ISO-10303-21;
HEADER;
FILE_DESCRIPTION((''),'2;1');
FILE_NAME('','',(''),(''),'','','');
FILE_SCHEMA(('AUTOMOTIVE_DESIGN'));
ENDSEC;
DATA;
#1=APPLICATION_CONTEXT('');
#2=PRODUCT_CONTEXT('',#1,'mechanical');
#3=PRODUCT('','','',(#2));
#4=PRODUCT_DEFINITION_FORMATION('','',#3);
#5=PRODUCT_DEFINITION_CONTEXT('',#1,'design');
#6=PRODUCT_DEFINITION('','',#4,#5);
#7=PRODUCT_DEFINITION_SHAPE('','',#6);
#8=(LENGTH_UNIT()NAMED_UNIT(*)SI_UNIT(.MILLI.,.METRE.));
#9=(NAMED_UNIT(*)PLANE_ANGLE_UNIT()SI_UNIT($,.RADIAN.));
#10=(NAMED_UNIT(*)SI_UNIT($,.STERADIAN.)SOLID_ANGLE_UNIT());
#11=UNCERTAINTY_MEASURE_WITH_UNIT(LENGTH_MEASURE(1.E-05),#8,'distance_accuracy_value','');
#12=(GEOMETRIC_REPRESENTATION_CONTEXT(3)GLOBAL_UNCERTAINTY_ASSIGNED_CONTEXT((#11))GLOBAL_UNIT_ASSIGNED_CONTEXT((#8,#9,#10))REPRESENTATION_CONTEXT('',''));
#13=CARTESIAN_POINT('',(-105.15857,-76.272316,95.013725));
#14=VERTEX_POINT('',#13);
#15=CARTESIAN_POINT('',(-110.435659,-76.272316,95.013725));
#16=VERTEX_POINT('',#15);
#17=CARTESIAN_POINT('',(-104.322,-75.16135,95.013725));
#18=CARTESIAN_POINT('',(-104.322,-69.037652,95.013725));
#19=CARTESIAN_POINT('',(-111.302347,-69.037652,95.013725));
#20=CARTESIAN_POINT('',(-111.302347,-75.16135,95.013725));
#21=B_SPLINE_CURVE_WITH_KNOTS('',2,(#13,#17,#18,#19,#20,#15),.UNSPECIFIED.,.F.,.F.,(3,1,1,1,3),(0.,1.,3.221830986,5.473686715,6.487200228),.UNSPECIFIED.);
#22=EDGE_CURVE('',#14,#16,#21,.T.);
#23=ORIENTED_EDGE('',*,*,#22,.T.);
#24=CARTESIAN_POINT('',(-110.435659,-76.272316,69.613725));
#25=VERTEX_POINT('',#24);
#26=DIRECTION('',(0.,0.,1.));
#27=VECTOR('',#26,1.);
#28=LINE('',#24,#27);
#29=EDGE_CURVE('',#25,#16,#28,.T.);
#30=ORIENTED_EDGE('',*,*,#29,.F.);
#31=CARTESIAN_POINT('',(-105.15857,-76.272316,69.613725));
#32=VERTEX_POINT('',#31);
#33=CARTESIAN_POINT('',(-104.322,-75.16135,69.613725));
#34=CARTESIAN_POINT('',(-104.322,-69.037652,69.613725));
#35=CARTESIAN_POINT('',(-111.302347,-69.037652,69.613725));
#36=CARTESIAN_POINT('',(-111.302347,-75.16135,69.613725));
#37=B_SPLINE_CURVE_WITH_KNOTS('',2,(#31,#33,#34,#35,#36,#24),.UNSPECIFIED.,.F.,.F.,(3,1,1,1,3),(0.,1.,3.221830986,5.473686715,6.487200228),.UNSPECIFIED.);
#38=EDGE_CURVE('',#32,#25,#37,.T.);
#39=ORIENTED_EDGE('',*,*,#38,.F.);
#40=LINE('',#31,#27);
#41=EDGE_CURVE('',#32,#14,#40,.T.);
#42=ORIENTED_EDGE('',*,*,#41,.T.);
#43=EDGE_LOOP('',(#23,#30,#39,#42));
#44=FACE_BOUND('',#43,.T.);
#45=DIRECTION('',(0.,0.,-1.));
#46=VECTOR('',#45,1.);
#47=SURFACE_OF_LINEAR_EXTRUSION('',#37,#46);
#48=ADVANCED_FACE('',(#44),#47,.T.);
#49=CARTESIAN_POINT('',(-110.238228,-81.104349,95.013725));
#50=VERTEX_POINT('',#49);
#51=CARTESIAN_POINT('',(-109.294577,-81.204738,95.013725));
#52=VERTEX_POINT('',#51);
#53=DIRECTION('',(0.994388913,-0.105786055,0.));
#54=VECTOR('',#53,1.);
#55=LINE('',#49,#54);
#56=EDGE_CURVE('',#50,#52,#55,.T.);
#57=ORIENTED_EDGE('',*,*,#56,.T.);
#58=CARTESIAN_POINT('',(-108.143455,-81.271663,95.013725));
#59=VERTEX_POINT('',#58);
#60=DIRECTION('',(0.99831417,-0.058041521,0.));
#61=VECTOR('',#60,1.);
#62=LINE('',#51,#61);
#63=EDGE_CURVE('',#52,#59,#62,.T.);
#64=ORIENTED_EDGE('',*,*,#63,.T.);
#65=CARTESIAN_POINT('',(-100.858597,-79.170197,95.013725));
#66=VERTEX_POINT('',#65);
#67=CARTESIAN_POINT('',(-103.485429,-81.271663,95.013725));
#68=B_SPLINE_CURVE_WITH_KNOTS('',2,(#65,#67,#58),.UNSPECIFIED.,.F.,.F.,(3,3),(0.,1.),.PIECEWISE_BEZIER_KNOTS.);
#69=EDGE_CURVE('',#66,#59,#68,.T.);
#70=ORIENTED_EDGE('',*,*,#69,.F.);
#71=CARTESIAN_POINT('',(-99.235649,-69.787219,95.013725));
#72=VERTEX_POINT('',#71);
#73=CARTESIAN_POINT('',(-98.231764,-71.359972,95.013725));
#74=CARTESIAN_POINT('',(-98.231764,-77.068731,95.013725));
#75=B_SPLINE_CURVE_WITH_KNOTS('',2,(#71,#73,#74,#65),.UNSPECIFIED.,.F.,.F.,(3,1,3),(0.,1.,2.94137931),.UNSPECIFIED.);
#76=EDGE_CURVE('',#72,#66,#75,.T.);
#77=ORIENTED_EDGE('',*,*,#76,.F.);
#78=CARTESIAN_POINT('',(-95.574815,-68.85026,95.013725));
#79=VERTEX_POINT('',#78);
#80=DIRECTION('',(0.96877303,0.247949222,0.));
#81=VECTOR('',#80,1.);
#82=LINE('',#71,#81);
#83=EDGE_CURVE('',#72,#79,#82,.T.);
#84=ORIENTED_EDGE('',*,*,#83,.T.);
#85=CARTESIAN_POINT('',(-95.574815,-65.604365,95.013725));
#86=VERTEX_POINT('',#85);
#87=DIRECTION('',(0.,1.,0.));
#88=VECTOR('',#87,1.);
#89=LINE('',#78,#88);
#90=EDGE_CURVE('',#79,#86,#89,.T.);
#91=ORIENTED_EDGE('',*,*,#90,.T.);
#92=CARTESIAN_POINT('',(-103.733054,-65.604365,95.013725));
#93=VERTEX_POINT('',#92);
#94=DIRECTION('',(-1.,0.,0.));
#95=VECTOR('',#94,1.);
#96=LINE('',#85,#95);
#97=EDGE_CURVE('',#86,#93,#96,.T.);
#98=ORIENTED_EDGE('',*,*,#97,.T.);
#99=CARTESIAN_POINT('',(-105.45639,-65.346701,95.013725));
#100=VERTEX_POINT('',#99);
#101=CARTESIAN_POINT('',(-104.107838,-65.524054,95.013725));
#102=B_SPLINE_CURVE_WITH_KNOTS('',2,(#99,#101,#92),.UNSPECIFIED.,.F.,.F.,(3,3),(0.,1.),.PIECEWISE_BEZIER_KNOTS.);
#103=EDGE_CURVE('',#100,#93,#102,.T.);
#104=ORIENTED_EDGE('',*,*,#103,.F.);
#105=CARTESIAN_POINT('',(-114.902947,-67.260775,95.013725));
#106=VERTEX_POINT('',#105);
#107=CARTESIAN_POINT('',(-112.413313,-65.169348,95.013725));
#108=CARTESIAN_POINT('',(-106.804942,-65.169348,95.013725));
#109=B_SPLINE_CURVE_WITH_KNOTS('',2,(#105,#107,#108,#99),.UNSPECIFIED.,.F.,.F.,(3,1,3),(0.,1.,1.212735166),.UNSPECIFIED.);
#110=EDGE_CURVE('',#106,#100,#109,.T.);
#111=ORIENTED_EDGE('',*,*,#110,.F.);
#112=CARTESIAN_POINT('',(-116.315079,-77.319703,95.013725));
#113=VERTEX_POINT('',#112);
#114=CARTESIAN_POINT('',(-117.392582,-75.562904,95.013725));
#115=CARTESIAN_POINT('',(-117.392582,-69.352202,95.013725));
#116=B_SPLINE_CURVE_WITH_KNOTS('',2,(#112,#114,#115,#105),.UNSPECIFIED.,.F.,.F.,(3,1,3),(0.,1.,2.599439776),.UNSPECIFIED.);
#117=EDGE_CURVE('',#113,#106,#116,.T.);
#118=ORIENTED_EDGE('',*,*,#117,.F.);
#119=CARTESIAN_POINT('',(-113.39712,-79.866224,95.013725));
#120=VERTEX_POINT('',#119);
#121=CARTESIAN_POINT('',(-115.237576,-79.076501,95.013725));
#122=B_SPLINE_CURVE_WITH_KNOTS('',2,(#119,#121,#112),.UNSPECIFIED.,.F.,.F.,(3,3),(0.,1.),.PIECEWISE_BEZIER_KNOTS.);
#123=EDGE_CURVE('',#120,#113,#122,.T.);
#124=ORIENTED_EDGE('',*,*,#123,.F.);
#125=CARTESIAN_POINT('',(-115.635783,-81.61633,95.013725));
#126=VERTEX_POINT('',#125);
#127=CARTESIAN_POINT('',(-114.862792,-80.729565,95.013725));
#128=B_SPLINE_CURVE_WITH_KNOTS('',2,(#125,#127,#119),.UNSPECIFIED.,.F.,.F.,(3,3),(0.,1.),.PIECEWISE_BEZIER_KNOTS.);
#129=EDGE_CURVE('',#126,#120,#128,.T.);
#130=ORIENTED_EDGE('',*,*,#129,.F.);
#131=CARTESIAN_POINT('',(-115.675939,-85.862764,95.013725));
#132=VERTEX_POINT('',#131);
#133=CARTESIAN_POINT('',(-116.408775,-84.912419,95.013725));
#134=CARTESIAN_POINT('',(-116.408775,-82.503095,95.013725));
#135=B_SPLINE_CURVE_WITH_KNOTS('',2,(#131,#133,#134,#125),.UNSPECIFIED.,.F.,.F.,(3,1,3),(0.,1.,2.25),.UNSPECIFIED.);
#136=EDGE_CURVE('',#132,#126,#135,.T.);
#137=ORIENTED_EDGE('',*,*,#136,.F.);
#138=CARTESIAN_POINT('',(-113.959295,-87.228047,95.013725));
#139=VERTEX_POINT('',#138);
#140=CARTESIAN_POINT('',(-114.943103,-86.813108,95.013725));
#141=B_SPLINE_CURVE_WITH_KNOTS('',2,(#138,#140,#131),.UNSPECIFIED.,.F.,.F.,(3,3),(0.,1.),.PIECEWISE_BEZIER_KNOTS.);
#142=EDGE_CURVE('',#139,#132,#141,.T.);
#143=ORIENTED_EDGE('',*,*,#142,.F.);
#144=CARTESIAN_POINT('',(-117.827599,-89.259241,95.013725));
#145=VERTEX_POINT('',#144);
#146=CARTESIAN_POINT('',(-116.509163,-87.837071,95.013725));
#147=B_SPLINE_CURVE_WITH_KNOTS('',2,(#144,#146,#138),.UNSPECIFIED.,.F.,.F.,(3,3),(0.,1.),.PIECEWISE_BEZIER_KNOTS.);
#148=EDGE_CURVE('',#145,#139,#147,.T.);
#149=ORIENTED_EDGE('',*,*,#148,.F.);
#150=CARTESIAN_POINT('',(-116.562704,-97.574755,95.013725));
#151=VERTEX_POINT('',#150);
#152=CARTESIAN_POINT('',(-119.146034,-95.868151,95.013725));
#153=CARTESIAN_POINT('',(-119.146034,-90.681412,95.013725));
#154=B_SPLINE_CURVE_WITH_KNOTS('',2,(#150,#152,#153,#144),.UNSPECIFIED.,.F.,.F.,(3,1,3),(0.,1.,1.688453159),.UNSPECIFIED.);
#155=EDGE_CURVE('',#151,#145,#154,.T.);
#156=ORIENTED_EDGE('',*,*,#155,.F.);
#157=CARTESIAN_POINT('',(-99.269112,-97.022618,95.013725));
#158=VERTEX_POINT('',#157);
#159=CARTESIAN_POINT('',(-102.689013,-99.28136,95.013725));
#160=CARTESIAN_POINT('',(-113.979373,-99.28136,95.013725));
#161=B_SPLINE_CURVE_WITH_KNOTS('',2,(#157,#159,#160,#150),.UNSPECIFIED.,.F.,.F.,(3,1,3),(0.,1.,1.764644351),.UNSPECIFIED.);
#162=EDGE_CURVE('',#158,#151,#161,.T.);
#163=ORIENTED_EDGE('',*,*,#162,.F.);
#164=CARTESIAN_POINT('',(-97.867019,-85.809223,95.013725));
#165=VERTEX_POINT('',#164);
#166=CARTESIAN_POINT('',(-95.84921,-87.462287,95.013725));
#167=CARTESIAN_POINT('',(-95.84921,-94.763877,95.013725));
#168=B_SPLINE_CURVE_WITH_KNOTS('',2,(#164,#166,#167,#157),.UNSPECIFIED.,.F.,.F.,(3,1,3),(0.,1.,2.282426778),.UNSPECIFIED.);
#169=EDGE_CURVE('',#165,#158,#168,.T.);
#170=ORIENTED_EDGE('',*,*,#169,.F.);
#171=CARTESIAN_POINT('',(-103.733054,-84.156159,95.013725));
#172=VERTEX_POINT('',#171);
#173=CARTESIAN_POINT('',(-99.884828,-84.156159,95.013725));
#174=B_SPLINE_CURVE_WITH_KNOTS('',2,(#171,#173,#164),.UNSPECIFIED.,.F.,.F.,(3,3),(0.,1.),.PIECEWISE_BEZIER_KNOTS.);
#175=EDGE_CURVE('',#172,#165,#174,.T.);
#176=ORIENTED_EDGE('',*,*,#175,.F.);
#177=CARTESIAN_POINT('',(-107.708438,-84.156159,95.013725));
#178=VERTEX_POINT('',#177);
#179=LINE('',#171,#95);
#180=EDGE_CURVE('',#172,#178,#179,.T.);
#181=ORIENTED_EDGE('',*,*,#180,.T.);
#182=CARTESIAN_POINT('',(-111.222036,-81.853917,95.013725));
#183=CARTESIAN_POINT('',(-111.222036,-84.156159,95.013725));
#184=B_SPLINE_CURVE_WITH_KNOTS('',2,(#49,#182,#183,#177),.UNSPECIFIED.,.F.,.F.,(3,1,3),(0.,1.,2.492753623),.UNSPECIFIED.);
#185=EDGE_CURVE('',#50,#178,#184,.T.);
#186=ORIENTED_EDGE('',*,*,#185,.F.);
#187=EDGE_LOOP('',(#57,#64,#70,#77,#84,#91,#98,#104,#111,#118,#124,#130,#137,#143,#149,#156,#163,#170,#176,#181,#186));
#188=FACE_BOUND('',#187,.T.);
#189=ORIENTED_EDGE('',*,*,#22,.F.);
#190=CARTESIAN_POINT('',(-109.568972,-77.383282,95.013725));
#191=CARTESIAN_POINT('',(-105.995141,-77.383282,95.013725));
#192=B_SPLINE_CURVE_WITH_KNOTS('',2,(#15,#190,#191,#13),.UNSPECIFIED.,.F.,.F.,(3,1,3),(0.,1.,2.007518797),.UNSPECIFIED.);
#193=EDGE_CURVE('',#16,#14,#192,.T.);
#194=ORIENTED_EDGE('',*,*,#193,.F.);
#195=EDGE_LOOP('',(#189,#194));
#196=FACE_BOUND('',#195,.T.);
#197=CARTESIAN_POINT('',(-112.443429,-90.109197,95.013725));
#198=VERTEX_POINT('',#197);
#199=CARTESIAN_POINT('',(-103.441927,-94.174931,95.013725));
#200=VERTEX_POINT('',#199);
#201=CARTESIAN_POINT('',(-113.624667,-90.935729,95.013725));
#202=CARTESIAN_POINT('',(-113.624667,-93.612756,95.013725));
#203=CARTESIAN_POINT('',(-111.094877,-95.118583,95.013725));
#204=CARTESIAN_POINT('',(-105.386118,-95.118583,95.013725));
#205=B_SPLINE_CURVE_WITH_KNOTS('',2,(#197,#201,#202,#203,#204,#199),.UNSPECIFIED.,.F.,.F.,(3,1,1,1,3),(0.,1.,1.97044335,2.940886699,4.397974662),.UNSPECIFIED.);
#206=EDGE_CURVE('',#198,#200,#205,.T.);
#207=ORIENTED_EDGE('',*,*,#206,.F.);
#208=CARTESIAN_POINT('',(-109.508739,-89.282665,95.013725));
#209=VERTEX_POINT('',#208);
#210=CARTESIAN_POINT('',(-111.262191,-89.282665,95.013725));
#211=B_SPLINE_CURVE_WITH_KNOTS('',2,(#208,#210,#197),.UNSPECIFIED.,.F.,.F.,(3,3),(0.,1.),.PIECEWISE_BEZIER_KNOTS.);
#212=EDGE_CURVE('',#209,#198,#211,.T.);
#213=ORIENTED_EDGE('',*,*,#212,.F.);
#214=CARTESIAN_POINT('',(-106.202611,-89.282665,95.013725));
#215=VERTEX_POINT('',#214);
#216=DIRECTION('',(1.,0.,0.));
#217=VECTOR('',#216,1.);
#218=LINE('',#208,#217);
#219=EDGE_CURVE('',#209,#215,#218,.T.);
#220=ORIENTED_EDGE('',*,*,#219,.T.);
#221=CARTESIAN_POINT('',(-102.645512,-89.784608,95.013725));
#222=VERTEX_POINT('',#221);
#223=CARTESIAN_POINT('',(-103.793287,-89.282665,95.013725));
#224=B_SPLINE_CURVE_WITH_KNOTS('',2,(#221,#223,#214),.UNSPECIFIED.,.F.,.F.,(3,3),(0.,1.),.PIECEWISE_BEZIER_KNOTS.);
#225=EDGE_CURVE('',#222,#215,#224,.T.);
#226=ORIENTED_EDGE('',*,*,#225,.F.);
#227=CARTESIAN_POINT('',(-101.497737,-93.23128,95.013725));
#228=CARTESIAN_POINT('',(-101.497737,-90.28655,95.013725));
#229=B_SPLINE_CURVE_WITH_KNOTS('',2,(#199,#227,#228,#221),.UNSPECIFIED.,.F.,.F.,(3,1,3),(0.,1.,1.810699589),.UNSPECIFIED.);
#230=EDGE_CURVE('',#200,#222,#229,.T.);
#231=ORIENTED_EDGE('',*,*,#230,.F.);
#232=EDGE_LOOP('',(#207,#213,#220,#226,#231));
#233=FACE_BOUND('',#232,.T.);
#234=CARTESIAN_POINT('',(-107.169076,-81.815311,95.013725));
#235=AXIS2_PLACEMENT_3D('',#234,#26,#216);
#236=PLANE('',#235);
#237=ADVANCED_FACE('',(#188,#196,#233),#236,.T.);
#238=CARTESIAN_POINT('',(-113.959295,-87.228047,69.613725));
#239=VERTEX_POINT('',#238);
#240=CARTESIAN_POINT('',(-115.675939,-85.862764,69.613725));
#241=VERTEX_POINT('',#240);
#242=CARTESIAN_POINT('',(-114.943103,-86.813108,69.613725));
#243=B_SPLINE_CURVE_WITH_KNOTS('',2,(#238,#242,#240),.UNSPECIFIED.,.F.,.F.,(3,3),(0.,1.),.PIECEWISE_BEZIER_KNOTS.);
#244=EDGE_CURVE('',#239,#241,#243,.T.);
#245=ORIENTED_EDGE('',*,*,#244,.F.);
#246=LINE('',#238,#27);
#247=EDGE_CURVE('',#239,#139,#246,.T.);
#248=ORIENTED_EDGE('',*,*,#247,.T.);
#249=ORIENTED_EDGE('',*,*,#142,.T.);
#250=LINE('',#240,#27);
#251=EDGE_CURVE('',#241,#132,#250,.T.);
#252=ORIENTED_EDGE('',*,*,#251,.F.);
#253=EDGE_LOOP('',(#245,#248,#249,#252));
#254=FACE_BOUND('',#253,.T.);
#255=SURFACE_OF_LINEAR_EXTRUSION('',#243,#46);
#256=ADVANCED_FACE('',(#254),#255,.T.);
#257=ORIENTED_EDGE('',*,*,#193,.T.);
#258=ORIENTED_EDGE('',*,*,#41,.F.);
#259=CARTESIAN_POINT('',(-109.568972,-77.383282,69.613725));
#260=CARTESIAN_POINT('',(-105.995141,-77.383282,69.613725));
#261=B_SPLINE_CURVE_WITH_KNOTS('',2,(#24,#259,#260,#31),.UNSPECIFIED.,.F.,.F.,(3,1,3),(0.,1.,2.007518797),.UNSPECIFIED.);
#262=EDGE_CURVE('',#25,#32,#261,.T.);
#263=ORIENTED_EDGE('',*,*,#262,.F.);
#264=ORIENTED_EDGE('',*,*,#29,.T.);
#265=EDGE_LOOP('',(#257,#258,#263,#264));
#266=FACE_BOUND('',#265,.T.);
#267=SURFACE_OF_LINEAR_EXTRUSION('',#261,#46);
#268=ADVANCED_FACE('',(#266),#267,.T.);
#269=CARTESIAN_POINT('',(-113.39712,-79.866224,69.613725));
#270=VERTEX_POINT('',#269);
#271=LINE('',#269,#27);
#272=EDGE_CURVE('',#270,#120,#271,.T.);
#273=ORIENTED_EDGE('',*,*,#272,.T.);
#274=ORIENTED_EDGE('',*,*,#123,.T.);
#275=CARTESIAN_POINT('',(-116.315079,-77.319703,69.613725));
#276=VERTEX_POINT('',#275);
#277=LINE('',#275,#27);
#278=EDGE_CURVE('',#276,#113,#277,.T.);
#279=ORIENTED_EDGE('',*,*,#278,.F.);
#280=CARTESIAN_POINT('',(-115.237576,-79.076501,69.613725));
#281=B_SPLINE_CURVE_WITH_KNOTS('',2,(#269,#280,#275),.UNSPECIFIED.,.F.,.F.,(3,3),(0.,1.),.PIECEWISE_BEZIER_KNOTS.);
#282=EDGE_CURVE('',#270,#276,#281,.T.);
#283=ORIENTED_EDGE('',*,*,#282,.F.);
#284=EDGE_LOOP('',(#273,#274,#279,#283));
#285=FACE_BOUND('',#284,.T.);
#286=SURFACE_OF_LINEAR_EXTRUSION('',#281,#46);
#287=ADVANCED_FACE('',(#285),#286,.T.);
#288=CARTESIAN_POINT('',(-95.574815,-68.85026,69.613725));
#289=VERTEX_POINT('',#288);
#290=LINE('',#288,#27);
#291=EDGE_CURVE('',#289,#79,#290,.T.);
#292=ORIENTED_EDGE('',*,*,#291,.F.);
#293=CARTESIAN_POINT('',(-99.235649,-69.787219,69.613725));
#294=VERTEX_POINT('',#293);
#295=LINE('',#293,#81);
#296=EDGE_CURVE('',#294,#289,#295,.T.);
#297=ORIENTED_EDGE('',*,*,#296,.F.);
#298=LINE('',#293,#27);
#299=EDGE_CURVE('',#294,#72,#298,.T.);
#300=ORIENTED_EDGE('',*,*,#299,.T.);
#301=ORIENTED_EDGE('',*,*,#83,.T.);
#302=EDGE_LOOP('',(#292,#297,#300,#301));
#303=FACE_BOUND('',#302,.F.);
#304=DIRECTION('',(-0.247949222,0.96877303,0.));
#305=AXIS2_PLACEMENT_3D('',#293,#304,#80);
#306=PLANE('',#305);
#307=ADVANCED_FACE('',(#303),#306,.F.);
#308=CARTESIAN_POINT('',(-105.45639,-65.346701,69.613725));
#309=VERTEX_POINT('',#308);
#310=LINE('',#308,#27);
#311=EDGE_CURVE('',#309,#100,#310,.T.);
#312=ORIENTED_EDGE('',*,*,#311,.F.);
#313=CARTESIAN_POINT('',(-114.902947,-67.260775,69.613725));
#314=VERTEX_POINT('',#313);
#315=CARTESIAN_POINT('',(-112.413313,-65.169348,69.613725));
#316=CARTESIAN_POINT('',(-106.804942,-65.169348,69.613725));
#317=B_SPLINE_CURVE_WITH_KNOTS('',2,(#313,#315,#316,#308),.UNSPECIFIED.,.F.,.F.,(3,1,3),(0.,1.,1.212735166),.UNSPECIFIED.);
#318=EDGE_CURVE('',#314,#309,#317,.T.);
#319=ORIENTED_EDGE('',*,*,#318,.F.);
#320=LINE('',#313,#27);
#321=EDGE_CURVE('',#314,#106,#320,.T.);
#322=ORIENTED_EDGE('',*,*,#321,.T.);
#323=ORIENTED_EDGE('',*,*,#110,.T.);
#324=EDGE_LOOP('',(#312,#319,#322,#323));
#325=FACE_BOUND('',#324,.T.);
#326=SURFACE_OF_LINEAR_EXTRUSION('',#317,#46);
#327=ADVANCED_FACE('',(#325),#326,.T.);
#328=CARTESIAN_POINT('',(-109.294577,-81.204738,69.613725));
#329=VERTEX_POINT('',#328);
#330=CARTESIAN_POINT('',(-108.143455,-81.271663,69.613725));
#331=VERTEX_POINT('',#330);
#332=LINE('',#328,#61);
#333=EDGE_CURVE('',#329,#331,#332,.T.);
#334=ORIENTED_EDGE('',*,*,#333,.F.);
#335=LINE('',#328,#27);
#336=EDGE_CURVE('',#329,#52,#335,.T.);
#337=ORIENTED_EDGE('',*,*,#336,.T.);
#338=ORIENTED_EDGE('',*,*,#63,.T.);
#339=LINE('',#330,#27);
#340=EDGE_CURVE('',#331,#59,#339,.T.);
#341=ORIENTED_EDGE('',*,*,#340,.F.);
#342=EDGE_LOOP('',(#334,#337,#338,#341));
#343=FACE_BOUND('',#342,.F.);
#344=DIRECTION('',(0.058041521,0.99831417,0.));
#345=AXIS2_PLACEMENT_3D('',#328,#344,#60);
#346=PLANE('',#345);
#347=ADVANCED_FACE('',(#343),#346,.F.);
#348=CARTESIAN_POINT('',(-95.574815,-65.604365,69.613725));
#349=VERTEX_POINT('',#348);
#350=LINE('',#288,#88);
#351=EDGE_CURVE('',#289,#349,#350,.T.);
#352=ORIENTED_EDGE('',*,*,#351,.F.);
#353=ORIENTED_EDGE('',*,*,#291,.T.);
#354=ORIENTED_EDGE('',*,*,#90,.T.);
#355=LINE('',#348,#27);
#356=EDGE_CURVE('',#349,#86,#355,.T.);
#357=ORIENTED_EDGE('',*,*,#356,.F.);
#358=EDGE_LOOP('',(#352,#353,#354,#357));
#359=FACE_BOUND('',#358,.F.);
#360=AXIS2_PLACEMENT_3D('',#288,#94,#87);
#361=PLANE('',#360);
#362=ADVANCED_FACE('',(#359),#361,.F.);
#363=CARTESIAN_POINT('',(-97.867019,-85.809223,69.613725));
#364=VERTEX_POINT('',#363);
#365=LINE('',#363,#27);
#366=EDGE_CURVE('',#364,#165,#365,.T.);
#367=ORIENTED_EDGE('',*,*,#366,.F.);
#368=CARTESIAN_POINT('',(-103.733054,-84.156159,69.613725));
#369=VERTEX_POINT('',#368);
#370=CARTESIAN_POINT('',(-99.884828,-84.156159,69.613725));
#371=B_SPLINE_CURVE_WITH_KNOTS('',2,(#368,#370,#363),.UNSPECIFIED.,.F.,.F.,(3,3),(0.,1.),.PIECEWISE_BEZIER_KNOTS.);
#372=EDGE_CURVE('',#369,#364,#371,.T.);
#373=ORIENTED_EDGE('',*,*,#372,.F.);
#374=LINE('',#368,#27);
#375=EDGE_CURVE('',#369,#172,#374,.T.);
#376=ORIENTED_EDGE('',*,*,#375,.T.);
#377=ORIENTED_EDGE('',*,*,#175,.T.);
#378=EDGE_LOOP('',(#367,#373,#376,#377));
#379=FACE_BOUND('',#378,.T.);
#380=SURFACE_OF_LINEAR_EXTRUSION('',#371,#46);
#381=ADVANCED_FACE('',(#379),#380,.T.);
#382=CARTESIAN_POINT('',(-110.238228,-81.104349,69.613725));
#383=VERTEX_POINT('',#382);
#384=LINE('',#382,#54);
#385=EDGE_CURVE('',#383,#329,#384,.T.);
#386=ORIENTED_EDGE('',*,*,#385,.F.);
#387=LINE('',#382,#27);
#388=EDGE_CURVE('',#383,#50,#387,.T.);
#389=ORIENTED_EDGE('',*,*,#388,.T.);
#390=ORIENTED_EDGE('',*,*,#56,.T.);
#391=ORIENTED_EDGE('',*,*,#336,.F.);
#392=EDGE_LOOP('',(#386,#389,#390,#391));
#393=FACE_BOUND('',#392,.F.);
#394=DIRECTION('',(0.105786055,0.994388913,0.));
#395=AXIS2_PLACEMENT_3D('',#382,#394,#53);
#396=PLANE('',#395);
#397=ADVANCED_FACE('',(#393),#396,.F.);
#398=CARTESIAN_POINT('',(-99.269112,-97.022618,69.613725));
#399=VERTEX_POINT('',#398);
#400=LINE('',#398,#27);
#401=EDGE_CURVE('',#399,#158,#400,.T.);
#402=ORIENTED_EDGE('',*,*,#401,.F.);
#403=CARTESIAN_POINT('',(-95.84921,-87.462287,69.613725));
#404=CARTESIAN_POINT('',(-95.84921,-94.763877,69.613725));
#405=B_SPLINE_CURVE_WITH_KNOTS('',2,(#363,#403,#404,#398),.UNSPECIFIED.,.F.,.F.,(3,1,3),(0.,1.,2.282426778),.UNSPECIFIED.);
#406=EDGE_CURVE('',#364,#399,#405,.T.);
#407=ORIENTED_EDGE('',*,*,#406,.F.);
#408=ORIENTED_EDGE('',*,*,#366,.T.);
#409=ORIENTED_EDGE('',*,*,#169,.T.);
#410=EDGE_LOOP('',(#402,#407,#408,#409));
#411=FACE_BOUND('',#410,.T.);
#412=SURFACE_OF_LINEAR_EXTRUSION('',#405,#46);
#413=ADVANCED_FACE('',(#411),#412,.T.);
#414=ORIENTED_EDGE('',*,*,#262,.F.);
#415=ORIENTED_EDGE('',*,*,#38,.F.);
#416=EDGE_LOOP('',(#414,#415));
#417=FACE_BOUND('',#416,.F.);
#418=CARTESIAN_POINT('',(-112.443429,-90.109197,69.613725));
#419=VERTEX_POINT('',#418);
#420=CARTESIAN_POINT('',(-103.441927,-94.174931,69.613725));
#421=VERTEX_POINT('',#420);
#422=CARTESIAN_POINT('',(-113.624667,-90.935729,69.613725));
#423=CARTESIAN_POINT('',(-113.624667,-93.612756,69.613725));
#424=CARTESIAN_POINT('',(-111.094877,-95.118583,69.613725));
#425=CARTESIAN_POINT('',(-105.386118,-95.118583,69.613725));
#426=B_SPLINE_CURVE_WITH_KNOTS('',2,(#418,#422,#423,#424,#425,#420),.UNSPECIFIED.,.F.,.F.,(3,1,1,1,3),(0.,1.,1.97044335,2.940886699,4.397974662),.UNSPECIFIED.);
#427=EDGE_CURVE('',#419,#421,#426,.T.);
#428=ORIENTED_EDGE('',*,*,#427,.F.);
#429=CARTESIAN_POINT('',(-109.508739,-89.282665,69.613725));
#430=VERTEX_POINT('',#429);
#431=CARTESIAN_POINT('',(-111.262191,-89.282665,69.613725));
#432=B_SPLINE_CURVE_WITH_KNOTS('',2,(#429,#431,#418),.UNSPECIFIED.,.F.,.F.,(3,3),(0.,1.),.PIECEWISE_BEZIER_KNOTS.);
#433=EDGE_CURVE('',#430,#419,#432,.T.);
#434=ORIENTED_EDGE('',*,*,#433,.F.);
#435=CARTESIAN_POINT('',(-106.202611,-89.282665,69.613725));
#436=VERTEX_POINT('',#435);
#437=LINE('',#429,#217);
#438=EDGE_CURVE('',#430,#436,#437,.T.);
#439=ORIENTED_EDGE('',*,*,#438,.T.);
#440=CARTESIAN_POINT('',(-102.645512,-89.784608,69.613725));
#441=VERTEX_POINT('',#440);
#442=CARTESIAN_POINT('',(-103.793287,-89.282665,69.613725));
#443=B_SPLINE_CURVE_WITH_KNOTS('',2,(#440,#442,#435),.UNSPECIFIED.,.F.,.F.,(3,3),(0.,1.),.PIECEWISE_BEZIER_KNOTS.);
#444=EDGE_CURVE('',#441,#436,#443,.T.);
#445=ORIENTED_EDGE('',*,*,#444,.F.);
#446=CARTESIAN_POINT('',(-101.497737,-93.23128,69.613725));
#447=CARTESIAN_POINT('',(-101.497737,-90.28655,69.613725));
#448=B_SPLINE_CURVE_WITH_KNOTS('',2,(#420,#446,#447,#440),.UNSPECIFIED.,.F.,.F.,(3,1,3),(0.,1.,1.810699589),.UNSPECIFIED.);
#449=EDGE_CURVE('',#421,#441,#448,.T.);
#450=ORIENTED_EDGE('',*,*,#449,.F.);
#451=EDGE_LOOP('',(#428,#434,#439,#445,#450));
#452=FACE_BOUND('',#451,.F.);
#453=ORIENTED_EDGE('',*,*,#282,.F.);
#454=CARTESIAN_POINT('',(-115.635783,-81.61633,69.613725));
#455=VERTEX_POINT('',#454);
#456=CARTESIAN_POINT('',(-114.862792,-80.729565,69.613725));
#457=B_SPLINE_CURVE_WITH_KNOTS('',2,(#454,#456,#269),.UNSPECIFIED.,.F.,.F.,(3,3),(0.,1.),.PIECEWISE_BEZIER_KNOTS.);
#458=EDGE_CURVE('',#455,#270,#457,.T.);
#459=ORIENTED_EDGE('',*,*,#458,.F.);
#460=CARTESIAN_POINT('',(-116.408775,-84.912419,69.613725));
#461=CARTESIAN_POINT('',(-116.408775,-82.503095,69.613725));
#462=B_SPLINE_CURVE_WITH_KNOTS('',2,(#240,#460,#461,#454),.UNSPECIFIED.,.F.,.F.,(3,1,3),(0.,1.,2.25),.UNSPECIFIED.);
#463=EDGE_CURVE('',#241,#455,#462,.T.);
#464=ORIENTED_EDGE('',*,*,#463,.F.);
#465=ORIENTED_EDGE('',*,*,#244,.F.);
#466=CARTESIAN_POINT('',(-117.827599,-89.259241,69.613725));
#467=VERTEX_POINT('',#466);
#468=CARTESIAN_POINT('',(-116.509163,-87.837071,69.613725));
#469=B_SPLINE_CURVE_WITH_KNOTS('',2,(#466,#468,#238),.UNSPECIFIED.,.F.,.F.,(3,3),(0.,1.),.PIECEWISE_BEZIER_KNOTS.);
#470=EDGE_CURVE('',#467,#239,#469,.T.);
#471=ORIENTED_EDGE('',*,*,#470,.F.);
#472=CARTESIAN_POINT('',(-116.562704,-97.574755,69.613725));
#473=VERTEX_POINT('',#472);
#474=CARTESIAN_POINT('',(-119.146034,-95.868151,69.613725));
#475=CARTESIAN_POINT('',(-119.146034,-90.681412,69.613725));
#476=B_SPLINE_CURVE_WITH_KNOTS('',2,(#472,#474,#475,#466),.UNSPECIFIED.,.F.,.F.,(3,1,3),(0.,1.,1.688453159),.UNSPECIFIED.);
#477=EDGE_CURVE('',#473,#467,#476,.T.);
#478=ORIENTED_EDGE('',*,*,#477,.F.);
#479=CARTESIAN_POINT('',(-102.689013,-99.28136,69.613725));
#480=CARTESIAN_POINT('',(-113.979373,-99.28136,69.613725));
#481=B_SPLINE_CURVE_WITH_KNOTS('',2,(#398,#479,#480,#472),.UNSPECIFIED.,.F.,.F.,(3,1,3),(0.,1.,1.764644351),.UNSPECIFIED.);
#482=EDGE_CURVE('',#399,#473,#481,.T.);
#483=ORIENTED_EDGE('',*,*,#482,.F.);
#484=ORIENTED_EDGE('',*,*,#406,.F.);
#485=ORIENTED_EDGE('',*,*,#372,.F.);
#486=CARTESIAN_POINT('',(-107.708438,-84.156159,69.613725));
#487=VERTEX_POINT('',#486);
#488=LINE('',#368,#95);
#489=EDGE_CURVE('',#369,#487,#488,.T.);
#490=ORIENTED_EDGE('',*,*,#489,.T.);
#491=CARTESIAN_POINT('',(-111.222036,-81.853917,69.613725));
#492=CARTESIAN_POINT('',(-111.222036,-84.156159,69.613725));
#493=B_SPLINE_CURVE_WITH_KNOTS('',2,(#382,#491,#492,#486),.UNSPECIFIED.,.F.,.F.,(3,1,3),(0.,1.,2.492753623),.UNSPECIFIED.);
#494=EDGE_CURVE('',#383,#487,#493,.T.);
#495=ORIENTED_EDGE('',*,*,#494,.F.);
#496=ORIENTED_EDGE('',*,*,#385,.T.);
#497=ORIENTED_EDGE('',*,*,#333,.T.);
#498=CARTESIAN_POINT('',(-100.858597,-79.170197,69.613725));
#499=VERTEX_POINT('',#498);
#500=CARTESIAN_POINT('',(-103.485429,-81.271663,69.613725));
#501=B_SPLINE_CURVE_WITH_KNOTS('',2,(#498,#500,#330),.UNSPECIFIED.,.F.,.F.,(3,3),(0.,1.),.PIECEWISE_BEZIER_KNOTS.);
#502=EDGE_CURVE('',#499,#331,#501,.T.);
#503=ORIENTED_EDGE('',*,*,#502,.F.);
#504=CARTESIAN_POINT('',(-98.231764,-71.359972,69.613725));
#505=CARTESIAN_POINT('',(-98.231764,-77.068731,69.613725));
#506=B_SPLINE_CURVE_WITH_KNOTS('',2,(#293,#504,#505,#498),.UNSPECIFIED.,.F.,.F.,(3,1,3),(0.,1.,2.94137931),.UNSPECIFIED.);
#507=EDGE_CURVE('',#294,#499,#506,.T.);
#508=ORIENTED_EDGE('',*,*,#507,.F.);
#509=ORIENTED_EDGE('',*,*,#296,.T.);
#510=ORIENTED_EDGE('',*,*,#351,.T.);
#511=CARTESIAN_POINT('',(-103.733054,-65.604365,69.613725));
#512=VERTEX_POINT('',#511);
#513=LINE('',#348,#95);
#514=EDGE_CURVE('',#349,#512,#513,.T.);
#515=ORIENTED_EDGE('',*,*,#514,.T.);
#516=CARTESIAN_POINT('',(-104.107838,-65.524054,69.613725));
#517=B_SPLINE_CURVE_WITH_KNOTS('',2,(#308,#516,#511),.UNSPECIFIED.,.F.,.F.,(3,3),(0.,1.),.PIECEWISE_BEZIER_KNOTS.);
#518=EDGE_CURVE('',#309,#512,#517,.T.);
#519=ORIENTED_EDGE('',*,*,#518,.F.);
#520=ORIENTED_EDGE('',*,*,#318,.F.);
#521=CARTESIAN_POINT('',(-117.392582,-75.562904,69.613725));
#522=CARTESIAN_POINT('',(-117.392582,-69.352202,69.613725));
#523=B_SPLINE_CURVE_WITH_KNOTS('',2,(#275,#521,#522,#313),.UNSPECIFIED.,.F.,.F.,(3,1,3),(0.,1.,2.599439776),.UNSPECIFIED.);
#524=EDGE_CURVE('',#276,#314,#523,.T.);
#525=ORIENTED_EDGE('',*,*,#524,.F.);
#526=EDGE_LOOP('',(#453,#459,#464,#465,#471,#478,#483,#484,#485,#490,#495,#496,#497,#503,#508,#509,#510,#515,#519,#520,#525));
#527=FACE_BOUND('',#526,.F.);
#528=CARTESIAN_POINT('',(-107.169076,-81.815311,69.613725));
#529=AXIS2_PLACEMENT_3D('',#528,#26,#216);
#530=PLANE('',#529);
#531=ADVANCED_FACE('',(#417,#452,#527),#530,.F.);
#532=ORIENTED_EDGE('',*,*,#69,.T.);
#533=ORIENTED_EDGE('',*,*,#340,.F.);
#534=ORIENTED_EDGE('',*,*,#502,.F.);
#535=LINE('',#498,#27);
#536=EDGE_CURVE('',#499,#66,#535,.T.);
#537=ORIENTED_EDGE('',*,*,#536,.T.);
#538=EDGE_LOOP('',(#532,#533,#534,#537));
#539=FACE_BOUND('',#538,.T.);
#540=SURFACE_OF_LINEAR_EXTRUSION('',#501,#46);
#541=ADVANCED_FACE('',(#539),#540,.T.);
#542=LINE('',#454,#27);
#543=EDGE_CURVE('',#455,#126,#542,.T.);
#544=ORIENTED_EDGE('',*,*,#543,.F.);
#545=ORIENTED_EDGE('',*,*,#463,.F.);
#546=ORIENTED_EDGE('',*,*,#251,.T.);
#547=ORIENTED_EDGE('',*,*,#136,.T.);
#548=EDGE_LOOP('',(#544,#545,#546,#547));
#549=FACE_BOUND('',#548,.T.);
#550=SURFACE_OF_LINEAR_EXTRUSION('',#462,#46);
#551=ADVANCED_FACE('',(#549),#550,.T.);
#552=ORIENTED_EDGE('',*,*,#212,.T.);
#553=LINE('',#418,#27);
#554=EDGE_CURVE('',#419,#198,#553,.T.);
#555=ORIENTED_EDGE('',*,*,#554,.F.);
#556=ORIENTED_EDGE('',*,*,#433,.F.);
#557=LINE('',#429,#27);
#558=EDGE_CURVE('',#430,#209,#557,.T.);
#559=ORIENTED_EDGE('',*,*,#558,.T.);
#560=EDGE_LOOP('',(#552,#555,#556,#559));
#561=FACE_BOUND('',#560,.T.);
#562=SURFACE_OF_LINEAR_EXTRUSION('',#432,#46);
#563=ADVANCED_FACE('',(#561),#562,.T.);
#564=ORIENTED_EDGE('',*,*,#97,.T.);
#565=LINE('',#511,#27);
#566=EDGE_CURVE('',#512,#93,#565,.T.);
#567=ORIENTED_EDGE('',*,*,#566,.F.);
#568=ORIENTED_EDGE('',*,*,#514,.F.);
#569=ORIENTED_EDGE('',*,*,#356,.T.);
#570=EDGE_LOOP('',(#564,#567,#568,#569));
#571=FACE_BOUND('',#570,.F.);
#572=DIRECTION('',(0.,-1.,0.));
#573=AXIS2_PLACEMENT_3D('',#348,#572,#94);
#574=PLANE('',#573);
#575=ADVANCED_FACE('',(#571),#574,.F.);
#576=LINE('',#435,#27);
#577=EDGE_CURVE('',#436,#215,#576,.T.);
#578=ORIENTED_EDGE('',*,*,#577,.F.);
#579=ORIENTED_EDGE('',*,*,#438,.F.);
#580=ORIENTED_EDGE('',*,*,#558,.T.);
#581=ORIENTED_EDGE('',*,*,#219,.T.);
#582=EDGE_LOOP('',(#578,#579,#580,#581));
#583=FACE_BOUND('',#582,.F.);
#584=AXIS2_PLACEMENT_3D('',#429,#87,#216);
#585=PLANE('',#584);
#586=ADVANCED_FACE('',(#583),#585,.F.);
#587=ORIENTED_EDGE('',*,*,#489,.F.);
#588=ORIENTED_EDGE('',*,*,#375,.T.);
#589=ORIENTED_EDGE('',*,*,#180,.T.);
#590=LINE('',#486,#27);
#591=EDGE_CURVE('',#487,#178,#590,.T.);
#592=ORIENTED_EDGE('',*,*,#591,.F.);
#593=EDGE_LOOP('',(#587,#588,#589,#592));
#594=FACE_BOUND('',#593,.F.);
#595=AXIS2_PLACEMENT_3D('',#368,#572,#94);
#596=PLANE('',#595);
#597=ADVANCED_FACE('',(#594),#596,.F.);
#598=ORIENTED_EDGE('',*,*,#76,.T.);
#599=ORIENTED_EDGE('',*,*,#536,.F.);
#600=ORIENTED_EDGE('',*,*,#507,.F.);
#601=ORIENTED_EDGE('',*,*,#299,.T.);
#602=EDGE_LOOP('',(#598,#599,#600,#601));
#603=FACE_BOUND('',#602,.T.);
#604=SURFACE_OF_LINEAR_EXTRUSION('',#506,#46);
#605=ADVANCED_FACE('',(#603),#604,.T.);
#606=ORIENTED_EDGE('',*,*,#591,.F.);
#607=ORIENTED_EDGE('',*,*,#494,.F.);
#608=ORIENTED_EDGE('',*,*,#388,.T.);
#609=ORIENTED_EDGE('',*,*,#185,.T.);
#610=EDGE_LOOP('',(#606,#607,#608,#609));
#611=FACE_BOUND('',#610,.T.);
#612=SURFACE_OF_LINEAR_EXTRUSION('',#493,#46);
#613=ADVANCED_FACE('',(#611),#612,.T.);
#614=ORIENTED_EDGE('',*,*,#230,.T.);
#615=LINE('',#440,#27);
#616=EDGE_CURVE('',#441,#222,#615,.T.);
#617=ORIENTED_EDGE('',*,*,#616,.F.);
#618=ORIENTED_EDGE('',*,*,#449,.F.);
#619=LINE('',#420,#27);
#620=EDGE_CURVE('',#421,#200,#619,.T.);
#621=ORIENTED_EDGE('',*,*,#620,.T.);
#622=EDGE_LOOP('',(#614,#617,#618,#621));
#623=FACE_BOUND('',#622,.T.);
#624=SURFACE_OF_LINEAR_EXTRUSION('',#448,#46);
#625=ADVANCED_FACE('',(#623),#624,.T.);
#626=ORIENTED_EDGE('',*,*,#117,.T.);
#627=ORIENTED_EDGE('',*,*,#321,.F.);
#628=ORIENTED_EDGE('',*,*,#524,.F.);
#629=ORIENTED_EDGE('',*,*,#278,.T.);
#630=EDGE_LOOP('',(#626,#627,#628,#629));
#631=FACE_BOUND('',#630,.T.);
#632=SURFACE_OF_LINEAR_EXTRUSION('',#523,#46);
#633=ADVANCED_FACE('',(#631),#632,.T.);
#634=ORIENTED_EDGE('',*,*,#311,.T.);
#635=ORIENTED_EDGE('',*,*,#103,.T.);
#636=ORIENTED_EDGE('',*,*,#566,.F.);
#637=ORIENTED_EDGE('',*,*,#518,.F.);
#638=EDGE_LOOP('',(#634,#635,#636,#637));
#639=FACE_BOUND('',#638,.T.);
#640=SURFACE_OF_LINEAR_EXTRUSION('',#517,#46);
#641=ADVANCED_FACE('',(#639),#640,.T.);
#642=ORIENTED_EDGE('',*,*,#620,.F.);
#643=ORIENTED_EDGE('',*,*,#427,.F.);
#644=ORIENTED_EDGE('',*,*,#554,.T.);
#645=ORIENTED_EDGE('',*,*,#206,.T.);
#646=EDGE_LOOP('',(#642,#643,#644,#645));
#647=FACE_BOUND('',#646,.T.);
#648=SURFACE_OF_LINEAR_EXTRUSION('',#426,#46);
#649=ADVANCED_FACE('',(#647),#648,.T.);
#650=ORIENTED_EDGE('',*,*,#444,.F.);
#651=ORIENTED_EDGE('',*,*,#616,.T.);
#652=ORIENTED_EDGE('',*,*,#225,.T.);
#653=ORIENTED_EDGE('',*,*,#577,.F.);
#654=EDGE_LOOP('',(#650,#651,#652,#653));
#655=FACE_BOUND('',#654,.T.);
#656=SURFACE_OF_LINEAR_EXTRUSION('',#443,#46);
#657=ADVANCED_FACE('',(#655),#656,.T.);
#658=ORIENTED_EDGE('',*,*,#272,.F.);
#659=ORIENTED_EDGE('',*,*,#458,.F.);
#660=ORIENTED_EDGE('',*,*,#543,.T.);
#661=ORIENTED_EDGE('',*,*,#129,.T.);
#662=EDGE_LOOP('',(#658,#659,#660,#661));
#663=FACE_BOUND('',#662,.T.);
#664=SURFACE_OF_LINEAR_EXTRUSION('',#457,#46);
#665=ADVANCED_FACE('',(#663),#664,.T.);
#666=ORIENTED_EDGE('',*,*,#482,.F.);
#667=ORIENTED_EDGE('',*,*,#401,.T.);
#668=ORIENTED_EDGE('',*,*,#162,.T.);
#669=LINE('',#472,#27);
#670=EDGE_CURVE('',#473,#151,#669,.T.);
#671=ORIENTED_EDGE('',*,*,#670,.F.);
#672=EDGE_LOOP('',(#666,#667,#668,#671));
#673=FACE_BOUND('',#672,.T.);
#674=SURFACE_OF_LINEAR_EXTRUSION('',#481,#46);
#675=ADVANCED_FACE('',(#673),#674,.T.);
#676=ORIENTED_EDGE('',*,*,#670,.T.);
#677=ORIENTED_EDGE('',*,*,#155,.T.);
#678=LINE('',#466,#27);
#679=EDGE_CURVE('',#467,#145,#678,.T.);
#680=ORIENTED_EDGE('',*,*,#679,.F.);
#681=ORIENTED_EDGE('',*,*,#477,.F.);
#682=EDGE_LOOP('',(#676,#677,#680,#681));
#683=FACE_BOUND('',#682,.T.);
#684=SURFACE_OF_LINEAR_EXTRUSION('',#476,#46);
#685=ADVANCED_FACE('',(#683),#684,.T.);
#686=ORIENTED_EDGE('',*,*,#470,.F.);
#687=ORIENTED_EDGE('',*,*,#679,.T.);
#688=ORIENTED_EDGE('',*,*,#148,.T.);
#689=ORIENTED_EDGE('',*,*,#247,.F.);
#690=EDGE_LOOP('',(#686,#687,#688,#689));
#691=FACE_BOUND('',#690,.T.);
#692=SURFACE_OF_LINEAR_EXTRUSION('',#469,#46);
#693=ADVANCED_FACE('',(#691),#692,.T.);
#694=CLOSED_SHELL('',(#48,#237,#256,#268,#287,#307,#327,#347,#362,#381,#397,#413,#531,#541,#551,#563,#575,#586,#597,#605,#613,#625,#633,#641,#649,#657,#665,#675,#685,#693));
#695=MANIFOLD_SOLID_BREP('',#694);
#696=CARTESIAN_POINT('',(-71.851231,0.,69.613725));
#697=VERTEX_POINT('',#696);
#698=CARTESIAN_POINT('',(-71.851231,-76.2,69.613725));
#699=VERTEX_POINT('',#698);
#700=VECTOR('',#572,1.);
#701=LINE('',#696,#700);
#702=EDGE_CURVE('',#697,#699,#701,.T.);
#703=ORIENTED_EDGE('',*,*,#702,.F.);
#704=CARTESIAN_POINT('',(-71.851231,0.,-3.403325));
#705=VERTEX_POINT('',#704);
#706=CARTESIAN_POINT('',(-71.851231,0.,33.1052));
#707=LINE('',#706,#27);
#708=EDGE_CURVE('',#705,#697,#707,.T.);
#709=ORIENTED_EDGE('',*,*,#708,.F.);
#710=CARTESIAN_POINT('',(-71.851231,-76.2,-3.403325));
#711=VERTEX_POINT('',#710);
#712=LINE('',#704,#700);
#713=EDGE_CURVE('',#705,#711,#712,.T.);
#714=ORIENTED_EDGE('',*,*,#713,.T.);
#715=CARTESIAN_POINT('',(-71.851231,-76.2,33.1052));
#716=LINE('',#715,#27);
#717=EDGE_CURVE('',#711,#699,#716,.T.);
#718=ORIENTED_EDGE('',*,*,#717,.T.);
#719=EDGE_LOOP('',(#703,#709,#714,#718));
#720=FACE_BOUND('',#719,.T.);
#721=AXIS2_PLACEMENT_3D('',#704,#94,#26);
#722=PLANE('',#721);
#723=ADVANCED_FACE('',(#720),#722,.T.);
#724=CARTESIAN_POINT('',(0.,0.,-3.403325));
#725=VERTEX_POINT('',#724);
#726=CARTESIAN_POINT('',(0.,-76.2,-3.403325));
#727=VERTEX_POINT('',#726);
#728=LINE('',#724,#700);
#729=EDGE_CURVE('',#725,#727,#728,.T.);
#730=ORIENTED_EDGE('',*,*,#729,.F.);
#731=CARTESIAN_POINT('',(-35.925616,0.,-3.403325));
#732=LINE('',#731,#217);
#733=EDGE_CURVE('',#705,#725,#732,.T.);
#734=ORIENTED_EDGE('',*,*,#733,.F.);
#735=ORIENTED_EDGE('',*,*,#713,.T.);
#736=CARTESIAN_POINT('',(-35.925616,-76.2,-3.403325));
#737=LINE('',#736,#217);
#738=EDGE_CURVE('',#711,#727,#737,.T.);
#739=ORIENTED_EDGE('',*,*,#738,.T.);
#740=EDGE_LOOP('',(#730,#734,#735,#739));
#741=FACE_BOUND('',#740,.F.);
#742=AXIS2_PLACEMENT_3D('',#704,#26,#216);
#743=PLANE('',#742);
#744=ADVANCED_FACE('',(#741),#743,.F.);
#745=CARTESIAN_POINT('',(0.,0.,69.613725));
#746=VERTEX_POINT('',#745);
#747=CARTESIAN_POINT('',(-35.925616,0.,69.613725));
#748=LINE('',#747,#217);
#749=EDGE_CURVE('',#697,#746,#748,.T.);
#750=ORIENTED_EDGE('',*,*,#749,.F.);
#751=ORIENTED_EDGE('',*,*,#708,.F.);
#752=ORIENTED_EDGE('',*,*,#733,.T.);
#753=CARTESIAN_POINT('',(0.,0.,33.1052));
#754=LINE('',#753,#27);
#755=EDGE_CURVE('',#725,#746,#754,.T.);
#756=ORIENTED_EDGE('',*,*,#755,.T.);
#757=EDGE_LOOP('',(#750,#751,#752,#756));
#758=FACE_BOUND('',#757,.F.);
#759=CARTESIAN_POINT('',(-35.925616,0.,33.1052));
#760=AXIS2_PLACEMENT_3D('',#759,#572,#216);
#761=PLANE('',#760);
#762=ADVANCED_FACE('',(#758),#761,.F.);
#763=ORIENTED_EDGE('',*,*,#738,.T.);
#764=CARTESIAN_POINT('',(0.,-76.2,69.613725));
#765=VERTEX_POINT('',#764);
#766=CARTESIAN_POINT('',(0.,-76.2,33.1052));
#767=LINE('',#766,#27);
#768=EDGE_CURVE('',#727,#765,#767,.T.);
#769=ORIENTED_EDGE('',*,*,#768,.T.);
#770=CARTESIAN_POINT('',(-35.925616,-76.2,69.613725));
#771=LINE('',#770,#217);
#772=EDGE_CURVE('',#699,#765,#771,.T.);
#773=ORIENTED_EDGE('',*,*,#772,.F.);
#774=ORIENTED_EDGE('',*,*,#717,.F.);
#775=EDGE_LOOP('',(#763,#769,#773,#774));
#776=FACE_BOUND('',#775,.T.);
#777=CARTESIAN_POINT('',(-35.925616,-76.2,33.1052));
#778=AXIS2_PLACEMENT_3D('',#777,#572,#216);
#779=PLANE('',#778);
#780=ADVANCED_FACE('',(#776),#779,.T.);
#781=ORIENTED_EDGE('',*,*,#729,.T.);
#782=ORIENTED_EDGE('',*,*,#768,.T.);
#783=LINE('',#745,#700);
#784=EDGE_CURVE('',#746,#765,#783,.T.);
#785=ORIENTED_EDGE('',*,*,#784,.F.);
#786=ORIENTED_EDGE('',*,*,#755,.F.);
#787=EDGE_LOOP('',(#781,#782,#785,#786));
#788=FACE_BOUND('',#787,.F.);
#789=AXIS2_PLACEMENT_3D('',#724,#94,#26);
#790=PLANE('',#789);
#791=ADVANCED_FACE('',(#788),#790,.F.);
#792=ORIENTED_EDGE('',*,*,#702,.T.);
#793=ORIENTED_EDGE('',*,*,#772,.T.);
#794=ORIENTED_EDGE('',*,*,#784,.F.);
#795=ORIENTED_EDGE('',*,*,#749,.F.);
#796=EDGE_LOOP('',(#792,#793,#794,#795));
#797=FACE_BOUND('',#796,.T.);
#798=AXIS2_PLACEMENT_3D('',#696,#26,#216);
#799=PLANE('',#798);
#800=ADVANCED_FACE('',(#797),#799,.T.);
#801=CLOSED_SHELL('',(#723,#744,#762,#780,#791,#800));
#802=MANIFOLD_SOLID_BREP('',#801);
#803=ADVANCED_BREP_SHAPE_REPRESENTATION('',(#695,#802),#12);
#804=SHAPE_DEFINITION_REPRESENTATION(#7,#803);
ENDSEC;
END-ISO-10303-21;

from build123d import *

# Parameters (mm, degrees)
F0_W     = 71.8512311578
F0_H     = 73.0170495808
F1_DEPTH = 76.2
F3_DEPTH = 25.4


with BuildPart() as f1:
    # F0 (on Front) → F1 (new body)
    with BuildSketch(Plane.XZ):
        with Locations((-35.9256155789, 33.1052001566)):
            Rectangle(F0_W, F0_H)
    extrude(amount=F1_DEPTH)


with BuildPart() as f3:
    # F2 (on face) → F3 (new body)
    with BuildSketch(Plane.XY.offset(69.613724947)):
        with BuildLine():
            Line((-95.5748152677, -68.850259835), (-95.5748152677, -65.6043650912))
            Line((-95.5748152677, -65.6043650912), (-103.7330538093, -65.6043650912))
            add(Edge.make_bspline(
                [(-105.4563896784, -65.3467012817), (-104.1078375323, -65.5240542934), (-103.7330538093, -65.6043650912)],
                knots=[0, 0, 0, 1, 1, 1], degree=2))
            add(Edge.make_bspline(
                [(-107.7887490974, -65.1693482699), (-106.8049418245, -65.1693482699), (-105.4563896784, -65.3467012817)],
                knots=[0, 0, 0, 1, 1, 1], degree=2))
            add(Edge.make_bspline(
                [(-114.9029472678, -67.2607752955), (-112.4133125365, -65.1693482699), (-107.7887490974, -65.1693482699)],
                knots=[0, 0, 0, 1, 1, 1], degree=2))
            add(Edge.make_bspline(
                [(-117.3925819991, -73.1736577824), (-117.3925819991, -69.3522023212), (-114.9029472678, -67.2607752955)],
                knots=[0, 0, 0, 1, 1, 1], degree=2))
            add(Edge.make_bspline(
                [(-116.3150787955, -77.319702718), (-117.3925819991, -75.5629040165), (-117.3925819991, -73.1736577824)],
                knots=[0, 0, 0, 1, 1, 1], degree=2))
            add(Edge.make_bspline(
                [(-113.3971198093, -79.8662242645), (-115.2375755919, -79.0765014196), (-116.3150787955, -77.319702718)],
                knots=[0, 0, 0, 1, 1, 1], degree=2))
            add(Edge.make_bspline(
                [(-115.6357832976, -81.6163303995), (-114.8627918689, -80.7295653406), (-113.3971198093, -79.8662242645)],
                knots=[0, 0, 0, 1, 1, 1], degree=2))
            add(Edge.make_bspline(
                [(-116.4087747262, -83.8416087548), (-116.4087747262, -82.5030954584), (-115.6357832976, -81.6163303995)],
                knots=[0, 0, 0, 1, 1, 1], degree=2))
            add(Edge.make_bspline(
                [(-115.6759386965, -85.8627638324), (-116.4087747262, -84.9124193919), (-116.4087747262, -83.8416087548)],
                knots=[0, 0, 0, 1, 1, 1], degree=2))
            add(Edge.make_bspline(
                [(-113.9592953938, -87.2280473947), (-114.9431026667, -86.8131082728), (-115.6759386965, -85.8627638324)],
                knots=[0, 0, 0, 1, 1, 1], degree=2))
            add(Edge.make_bspline(
                [(-117.8275988204, -89.259241322), (-116.5091632235, -87.8370709446), (-113.9592953938, -87.2280473947)],
                knots=[0, 0, 0, 1, 1, 1], degree=2))
            add(Edge.make_bspline(
                [(-119.1460344174, -92.7962627078), (-119.1460344174, -90.6814116994), (-117.8275988204, -89.259241322)],
                knots=[0, 0, 0, 1, 1, 1], degree=2))
            add(Edge.make_bspline(
                [(-116.5627037553, -97.5747551759), (-119.1460344174, -95.868150723), (-119.1460344174, -92.7962627078)],
                knots=[0, 0, 0, 1, 1, 1], degree=2))
            add(Edge.make_bspline(
                [(-109.0871069949, -99.2813596289), (-113.9793730933, -99.2813596289), (-116.5627037553, -97.5747551759)],
                knots=[0, 0, 0, 1, 1, 1], degree=2))
            add(Edge.make_bspline(
                [(-99.2691119657, -97.0226184412), (-102.6890134381, -99.2813596289), (-109.0871069949, -99.2813596289)],
                knots=[0, 0, 0, 1, 1, 1], degree=2))
            add(Edge.make_bspline(
                [(-95.8492104934, -90.661334), (-95.8492104934, -94.7638772535), (-99.2691119657, -97.0226184412)],
                knots=[0, 0, 0, 1, 1, 1], degree=2))
            add(Edge.make_bspline(
                [(-97.8670192878, -85.8092233005), (-95.8492104934, -87.4622872216), (-95.8492104934, -90.661334)],
                knots=[0, 0, 0, 1, 1, 1], degree=2))
            add(Edge.make_bspline(
                [(-103.7330538093, -84.1561593794), (-99.8848280821, -84.1561593794), (-97.8670192878, -85.8092233005)],
                knots=[0, 0, 0, 1, 1, 1], degree=2))
            Line((-103.7330538093, -84.1561593794), (-107.7084382996, -84.1561593794))
            add(Edge.make_bspline(
                [(-111.2220357027, -82.7774906841), (-111.2220357027, -84.1561593794), (-107.7084382996, -84.1561593794)],
                knots=[0, 0, 0, 1, 1, 1], degree=2))
            add(Edge.make_bspline(
                [(-110.2382284298, -81.1043490636), (-111.2220357027, -81.8539165096), (-111.2220357027, -82.7774906841)],
                knots=[0, 0, 0, 1, 1, 1], degree=2))
            Line((-110.2382284298, -81.1043490636), (-109.2945765558, -81.2047375609))
            Line((-109.2945765558, -81.2047375609), (-108.1434551209, -81.2716632257))
            add(Edge.make_bspline(
                [(-100.8585965052, -79.1701973503), (-103.4854288494, -81.2716632257), (-108.1434551209, -81.2716632257)],
                knots=[0, 0, 0, 1, 1, 1], degree=2))
            add(Edge.make_bspline(
                [(-98.231764161, -73.3008165456), (-98.231764161, -77.068731475), (-100.8585965052, -79.1701973503)],
                knots=[0, 0, 0, 1, 1, 1], degree=2))
            add(Edge.make_bspline(
                [(-99.2356491333, -69.7872191425), (-98.231764161, -71.3599722658), (-98.231764161, -73.3008165456)],
                knots=[0, 0, 0, 1, 1, 1], degree=2))
            Line((-99.2356491333, -69.7872191425), (-95.5748152677, -68.850259835))
        make_face()
        with BuildLine():
            add(Edge.make_bspline(
                [(-113.6246670697, -92.2943202216), (-113.6246670697, -93.6127558186), (-112.3597720046, -94.3656695478)],
                knots=[0, 0, 0, 1, 1, 1], degree=2))
            add(Edge.make_bspline(
                [(-112.4434290856, -90.1091972652), (-113.6246670697, -90.9357292257), (-113.6246670697, -92.2943202216)],
                knots=[0, 0, 0, 1, 1, 1], degree=2))
            add(Edge.make_bspline(
                [(-109.5087386833, -89.2826653047), (-111.2621911016, -89.2826653047), (-112.4434290856, -90.1091972652)],
                knots=[0, 0, 0, 1, 1, 1], degree=2))
            Line((-109.5087386833, -89.2826653047), (-106.2026108411, -89.2826653047))
            add(Edge.make_bspline(
                [(-102.6455117559, -89.7846077908), (-103.7932869076, -89.2826653047), (-106.2026108411, -89.2826653047)],
                knots=[0, 0, 0, 1, 1, 1], degree=2))
            add(Edge.make_bspline(
                [(-101.4977366043, -91.604985874), (-101.4977366043, -90.286550277), (-102.6455117559, -89.7846077908)],
                knots=[0, 0, 0, 1, 1, 1], degree=2))
            add(Edge.make_bspline(
                [(-103.4419271673, -94.1749314031), (-101.4977366043, -93.2312795291), (-101.4977366043, -91.604985874)],
                knots=[0, 0, 0, 1, 1, 1], degree=2))
            add(Edge.make_bspline(
                [(-108.8127117691, -95.118583277), (-105.3861177303, -95.118583277), (-103.4419271673, -94.1749314031)],
                knots=[0, 0, 0, 1, 1, 1], degree=2))
            add(Edge.make_bspline(
                [(-112.3597720046, -94.3656695478), (-111.0948769395, -95.118583277), (-108.8127117691, -95.118583277)],
                knots=[0, 0, 0, 1, 1, 1], degree=2))
        make_face(mode=Mode.SUBTRACT)
        with BuildLine():
            add(Edge.make_bspline(
                [(-111.3023465005, -73.2606611467), (-111.3023465005, -75.1613500276), (-110.435659141, -76.2723160636)],
                knots=[0, 0, 0, 1, 1, 1], degree=2))
            add(Edge.make_bspline(
                [(-107.7887490974, -69.0376516965), (-111.3023465005, -69.0376516965), (-111.3023465005, -73.2606611467)],
                knots=[0, 0, 0, 1, 1, 1], degree=2))
            add(Edge.make_bspline(
                [(-104.3219996597, -73.2606611467), (-104.3219996597, -69.0376516965), (-107.7887490974, -69.0376516965)],
                knots=[0, 0, 0, 1, 1, 1], degree=2))
            add(Edge.make_bspline(
                [(-105.1585704699, -76.2723160636), (-104.3219996597, -75.1613500276), (-104.3219996597, -73.2606611467)],
                knots=[0, 0, 0, 1, 1, 1], degree=2))
            add(Edge.make_bspline(
                [(-107.7887490974, -77.3832820996), (-105.9951412802, -77.3832820996), (-105.1585704699, -76.2723160636)],
                knots=[0, 0, 0, 1, 1, 1], degree=2))
            add(Edge.make_bspline(
                [(-110.435659141, -76.2723160636), (-109.5689717816, -77.3832820996), (-107.7887490974, -77.3832820996)],
                knots=[0, 0, 0, 1, 1, 1], degree=2))
        make_face(mode=Mode.SUBTRACT)
    extrude(amount=F3_DEPTH)


solid = Compound([f1.part, f3.part])
